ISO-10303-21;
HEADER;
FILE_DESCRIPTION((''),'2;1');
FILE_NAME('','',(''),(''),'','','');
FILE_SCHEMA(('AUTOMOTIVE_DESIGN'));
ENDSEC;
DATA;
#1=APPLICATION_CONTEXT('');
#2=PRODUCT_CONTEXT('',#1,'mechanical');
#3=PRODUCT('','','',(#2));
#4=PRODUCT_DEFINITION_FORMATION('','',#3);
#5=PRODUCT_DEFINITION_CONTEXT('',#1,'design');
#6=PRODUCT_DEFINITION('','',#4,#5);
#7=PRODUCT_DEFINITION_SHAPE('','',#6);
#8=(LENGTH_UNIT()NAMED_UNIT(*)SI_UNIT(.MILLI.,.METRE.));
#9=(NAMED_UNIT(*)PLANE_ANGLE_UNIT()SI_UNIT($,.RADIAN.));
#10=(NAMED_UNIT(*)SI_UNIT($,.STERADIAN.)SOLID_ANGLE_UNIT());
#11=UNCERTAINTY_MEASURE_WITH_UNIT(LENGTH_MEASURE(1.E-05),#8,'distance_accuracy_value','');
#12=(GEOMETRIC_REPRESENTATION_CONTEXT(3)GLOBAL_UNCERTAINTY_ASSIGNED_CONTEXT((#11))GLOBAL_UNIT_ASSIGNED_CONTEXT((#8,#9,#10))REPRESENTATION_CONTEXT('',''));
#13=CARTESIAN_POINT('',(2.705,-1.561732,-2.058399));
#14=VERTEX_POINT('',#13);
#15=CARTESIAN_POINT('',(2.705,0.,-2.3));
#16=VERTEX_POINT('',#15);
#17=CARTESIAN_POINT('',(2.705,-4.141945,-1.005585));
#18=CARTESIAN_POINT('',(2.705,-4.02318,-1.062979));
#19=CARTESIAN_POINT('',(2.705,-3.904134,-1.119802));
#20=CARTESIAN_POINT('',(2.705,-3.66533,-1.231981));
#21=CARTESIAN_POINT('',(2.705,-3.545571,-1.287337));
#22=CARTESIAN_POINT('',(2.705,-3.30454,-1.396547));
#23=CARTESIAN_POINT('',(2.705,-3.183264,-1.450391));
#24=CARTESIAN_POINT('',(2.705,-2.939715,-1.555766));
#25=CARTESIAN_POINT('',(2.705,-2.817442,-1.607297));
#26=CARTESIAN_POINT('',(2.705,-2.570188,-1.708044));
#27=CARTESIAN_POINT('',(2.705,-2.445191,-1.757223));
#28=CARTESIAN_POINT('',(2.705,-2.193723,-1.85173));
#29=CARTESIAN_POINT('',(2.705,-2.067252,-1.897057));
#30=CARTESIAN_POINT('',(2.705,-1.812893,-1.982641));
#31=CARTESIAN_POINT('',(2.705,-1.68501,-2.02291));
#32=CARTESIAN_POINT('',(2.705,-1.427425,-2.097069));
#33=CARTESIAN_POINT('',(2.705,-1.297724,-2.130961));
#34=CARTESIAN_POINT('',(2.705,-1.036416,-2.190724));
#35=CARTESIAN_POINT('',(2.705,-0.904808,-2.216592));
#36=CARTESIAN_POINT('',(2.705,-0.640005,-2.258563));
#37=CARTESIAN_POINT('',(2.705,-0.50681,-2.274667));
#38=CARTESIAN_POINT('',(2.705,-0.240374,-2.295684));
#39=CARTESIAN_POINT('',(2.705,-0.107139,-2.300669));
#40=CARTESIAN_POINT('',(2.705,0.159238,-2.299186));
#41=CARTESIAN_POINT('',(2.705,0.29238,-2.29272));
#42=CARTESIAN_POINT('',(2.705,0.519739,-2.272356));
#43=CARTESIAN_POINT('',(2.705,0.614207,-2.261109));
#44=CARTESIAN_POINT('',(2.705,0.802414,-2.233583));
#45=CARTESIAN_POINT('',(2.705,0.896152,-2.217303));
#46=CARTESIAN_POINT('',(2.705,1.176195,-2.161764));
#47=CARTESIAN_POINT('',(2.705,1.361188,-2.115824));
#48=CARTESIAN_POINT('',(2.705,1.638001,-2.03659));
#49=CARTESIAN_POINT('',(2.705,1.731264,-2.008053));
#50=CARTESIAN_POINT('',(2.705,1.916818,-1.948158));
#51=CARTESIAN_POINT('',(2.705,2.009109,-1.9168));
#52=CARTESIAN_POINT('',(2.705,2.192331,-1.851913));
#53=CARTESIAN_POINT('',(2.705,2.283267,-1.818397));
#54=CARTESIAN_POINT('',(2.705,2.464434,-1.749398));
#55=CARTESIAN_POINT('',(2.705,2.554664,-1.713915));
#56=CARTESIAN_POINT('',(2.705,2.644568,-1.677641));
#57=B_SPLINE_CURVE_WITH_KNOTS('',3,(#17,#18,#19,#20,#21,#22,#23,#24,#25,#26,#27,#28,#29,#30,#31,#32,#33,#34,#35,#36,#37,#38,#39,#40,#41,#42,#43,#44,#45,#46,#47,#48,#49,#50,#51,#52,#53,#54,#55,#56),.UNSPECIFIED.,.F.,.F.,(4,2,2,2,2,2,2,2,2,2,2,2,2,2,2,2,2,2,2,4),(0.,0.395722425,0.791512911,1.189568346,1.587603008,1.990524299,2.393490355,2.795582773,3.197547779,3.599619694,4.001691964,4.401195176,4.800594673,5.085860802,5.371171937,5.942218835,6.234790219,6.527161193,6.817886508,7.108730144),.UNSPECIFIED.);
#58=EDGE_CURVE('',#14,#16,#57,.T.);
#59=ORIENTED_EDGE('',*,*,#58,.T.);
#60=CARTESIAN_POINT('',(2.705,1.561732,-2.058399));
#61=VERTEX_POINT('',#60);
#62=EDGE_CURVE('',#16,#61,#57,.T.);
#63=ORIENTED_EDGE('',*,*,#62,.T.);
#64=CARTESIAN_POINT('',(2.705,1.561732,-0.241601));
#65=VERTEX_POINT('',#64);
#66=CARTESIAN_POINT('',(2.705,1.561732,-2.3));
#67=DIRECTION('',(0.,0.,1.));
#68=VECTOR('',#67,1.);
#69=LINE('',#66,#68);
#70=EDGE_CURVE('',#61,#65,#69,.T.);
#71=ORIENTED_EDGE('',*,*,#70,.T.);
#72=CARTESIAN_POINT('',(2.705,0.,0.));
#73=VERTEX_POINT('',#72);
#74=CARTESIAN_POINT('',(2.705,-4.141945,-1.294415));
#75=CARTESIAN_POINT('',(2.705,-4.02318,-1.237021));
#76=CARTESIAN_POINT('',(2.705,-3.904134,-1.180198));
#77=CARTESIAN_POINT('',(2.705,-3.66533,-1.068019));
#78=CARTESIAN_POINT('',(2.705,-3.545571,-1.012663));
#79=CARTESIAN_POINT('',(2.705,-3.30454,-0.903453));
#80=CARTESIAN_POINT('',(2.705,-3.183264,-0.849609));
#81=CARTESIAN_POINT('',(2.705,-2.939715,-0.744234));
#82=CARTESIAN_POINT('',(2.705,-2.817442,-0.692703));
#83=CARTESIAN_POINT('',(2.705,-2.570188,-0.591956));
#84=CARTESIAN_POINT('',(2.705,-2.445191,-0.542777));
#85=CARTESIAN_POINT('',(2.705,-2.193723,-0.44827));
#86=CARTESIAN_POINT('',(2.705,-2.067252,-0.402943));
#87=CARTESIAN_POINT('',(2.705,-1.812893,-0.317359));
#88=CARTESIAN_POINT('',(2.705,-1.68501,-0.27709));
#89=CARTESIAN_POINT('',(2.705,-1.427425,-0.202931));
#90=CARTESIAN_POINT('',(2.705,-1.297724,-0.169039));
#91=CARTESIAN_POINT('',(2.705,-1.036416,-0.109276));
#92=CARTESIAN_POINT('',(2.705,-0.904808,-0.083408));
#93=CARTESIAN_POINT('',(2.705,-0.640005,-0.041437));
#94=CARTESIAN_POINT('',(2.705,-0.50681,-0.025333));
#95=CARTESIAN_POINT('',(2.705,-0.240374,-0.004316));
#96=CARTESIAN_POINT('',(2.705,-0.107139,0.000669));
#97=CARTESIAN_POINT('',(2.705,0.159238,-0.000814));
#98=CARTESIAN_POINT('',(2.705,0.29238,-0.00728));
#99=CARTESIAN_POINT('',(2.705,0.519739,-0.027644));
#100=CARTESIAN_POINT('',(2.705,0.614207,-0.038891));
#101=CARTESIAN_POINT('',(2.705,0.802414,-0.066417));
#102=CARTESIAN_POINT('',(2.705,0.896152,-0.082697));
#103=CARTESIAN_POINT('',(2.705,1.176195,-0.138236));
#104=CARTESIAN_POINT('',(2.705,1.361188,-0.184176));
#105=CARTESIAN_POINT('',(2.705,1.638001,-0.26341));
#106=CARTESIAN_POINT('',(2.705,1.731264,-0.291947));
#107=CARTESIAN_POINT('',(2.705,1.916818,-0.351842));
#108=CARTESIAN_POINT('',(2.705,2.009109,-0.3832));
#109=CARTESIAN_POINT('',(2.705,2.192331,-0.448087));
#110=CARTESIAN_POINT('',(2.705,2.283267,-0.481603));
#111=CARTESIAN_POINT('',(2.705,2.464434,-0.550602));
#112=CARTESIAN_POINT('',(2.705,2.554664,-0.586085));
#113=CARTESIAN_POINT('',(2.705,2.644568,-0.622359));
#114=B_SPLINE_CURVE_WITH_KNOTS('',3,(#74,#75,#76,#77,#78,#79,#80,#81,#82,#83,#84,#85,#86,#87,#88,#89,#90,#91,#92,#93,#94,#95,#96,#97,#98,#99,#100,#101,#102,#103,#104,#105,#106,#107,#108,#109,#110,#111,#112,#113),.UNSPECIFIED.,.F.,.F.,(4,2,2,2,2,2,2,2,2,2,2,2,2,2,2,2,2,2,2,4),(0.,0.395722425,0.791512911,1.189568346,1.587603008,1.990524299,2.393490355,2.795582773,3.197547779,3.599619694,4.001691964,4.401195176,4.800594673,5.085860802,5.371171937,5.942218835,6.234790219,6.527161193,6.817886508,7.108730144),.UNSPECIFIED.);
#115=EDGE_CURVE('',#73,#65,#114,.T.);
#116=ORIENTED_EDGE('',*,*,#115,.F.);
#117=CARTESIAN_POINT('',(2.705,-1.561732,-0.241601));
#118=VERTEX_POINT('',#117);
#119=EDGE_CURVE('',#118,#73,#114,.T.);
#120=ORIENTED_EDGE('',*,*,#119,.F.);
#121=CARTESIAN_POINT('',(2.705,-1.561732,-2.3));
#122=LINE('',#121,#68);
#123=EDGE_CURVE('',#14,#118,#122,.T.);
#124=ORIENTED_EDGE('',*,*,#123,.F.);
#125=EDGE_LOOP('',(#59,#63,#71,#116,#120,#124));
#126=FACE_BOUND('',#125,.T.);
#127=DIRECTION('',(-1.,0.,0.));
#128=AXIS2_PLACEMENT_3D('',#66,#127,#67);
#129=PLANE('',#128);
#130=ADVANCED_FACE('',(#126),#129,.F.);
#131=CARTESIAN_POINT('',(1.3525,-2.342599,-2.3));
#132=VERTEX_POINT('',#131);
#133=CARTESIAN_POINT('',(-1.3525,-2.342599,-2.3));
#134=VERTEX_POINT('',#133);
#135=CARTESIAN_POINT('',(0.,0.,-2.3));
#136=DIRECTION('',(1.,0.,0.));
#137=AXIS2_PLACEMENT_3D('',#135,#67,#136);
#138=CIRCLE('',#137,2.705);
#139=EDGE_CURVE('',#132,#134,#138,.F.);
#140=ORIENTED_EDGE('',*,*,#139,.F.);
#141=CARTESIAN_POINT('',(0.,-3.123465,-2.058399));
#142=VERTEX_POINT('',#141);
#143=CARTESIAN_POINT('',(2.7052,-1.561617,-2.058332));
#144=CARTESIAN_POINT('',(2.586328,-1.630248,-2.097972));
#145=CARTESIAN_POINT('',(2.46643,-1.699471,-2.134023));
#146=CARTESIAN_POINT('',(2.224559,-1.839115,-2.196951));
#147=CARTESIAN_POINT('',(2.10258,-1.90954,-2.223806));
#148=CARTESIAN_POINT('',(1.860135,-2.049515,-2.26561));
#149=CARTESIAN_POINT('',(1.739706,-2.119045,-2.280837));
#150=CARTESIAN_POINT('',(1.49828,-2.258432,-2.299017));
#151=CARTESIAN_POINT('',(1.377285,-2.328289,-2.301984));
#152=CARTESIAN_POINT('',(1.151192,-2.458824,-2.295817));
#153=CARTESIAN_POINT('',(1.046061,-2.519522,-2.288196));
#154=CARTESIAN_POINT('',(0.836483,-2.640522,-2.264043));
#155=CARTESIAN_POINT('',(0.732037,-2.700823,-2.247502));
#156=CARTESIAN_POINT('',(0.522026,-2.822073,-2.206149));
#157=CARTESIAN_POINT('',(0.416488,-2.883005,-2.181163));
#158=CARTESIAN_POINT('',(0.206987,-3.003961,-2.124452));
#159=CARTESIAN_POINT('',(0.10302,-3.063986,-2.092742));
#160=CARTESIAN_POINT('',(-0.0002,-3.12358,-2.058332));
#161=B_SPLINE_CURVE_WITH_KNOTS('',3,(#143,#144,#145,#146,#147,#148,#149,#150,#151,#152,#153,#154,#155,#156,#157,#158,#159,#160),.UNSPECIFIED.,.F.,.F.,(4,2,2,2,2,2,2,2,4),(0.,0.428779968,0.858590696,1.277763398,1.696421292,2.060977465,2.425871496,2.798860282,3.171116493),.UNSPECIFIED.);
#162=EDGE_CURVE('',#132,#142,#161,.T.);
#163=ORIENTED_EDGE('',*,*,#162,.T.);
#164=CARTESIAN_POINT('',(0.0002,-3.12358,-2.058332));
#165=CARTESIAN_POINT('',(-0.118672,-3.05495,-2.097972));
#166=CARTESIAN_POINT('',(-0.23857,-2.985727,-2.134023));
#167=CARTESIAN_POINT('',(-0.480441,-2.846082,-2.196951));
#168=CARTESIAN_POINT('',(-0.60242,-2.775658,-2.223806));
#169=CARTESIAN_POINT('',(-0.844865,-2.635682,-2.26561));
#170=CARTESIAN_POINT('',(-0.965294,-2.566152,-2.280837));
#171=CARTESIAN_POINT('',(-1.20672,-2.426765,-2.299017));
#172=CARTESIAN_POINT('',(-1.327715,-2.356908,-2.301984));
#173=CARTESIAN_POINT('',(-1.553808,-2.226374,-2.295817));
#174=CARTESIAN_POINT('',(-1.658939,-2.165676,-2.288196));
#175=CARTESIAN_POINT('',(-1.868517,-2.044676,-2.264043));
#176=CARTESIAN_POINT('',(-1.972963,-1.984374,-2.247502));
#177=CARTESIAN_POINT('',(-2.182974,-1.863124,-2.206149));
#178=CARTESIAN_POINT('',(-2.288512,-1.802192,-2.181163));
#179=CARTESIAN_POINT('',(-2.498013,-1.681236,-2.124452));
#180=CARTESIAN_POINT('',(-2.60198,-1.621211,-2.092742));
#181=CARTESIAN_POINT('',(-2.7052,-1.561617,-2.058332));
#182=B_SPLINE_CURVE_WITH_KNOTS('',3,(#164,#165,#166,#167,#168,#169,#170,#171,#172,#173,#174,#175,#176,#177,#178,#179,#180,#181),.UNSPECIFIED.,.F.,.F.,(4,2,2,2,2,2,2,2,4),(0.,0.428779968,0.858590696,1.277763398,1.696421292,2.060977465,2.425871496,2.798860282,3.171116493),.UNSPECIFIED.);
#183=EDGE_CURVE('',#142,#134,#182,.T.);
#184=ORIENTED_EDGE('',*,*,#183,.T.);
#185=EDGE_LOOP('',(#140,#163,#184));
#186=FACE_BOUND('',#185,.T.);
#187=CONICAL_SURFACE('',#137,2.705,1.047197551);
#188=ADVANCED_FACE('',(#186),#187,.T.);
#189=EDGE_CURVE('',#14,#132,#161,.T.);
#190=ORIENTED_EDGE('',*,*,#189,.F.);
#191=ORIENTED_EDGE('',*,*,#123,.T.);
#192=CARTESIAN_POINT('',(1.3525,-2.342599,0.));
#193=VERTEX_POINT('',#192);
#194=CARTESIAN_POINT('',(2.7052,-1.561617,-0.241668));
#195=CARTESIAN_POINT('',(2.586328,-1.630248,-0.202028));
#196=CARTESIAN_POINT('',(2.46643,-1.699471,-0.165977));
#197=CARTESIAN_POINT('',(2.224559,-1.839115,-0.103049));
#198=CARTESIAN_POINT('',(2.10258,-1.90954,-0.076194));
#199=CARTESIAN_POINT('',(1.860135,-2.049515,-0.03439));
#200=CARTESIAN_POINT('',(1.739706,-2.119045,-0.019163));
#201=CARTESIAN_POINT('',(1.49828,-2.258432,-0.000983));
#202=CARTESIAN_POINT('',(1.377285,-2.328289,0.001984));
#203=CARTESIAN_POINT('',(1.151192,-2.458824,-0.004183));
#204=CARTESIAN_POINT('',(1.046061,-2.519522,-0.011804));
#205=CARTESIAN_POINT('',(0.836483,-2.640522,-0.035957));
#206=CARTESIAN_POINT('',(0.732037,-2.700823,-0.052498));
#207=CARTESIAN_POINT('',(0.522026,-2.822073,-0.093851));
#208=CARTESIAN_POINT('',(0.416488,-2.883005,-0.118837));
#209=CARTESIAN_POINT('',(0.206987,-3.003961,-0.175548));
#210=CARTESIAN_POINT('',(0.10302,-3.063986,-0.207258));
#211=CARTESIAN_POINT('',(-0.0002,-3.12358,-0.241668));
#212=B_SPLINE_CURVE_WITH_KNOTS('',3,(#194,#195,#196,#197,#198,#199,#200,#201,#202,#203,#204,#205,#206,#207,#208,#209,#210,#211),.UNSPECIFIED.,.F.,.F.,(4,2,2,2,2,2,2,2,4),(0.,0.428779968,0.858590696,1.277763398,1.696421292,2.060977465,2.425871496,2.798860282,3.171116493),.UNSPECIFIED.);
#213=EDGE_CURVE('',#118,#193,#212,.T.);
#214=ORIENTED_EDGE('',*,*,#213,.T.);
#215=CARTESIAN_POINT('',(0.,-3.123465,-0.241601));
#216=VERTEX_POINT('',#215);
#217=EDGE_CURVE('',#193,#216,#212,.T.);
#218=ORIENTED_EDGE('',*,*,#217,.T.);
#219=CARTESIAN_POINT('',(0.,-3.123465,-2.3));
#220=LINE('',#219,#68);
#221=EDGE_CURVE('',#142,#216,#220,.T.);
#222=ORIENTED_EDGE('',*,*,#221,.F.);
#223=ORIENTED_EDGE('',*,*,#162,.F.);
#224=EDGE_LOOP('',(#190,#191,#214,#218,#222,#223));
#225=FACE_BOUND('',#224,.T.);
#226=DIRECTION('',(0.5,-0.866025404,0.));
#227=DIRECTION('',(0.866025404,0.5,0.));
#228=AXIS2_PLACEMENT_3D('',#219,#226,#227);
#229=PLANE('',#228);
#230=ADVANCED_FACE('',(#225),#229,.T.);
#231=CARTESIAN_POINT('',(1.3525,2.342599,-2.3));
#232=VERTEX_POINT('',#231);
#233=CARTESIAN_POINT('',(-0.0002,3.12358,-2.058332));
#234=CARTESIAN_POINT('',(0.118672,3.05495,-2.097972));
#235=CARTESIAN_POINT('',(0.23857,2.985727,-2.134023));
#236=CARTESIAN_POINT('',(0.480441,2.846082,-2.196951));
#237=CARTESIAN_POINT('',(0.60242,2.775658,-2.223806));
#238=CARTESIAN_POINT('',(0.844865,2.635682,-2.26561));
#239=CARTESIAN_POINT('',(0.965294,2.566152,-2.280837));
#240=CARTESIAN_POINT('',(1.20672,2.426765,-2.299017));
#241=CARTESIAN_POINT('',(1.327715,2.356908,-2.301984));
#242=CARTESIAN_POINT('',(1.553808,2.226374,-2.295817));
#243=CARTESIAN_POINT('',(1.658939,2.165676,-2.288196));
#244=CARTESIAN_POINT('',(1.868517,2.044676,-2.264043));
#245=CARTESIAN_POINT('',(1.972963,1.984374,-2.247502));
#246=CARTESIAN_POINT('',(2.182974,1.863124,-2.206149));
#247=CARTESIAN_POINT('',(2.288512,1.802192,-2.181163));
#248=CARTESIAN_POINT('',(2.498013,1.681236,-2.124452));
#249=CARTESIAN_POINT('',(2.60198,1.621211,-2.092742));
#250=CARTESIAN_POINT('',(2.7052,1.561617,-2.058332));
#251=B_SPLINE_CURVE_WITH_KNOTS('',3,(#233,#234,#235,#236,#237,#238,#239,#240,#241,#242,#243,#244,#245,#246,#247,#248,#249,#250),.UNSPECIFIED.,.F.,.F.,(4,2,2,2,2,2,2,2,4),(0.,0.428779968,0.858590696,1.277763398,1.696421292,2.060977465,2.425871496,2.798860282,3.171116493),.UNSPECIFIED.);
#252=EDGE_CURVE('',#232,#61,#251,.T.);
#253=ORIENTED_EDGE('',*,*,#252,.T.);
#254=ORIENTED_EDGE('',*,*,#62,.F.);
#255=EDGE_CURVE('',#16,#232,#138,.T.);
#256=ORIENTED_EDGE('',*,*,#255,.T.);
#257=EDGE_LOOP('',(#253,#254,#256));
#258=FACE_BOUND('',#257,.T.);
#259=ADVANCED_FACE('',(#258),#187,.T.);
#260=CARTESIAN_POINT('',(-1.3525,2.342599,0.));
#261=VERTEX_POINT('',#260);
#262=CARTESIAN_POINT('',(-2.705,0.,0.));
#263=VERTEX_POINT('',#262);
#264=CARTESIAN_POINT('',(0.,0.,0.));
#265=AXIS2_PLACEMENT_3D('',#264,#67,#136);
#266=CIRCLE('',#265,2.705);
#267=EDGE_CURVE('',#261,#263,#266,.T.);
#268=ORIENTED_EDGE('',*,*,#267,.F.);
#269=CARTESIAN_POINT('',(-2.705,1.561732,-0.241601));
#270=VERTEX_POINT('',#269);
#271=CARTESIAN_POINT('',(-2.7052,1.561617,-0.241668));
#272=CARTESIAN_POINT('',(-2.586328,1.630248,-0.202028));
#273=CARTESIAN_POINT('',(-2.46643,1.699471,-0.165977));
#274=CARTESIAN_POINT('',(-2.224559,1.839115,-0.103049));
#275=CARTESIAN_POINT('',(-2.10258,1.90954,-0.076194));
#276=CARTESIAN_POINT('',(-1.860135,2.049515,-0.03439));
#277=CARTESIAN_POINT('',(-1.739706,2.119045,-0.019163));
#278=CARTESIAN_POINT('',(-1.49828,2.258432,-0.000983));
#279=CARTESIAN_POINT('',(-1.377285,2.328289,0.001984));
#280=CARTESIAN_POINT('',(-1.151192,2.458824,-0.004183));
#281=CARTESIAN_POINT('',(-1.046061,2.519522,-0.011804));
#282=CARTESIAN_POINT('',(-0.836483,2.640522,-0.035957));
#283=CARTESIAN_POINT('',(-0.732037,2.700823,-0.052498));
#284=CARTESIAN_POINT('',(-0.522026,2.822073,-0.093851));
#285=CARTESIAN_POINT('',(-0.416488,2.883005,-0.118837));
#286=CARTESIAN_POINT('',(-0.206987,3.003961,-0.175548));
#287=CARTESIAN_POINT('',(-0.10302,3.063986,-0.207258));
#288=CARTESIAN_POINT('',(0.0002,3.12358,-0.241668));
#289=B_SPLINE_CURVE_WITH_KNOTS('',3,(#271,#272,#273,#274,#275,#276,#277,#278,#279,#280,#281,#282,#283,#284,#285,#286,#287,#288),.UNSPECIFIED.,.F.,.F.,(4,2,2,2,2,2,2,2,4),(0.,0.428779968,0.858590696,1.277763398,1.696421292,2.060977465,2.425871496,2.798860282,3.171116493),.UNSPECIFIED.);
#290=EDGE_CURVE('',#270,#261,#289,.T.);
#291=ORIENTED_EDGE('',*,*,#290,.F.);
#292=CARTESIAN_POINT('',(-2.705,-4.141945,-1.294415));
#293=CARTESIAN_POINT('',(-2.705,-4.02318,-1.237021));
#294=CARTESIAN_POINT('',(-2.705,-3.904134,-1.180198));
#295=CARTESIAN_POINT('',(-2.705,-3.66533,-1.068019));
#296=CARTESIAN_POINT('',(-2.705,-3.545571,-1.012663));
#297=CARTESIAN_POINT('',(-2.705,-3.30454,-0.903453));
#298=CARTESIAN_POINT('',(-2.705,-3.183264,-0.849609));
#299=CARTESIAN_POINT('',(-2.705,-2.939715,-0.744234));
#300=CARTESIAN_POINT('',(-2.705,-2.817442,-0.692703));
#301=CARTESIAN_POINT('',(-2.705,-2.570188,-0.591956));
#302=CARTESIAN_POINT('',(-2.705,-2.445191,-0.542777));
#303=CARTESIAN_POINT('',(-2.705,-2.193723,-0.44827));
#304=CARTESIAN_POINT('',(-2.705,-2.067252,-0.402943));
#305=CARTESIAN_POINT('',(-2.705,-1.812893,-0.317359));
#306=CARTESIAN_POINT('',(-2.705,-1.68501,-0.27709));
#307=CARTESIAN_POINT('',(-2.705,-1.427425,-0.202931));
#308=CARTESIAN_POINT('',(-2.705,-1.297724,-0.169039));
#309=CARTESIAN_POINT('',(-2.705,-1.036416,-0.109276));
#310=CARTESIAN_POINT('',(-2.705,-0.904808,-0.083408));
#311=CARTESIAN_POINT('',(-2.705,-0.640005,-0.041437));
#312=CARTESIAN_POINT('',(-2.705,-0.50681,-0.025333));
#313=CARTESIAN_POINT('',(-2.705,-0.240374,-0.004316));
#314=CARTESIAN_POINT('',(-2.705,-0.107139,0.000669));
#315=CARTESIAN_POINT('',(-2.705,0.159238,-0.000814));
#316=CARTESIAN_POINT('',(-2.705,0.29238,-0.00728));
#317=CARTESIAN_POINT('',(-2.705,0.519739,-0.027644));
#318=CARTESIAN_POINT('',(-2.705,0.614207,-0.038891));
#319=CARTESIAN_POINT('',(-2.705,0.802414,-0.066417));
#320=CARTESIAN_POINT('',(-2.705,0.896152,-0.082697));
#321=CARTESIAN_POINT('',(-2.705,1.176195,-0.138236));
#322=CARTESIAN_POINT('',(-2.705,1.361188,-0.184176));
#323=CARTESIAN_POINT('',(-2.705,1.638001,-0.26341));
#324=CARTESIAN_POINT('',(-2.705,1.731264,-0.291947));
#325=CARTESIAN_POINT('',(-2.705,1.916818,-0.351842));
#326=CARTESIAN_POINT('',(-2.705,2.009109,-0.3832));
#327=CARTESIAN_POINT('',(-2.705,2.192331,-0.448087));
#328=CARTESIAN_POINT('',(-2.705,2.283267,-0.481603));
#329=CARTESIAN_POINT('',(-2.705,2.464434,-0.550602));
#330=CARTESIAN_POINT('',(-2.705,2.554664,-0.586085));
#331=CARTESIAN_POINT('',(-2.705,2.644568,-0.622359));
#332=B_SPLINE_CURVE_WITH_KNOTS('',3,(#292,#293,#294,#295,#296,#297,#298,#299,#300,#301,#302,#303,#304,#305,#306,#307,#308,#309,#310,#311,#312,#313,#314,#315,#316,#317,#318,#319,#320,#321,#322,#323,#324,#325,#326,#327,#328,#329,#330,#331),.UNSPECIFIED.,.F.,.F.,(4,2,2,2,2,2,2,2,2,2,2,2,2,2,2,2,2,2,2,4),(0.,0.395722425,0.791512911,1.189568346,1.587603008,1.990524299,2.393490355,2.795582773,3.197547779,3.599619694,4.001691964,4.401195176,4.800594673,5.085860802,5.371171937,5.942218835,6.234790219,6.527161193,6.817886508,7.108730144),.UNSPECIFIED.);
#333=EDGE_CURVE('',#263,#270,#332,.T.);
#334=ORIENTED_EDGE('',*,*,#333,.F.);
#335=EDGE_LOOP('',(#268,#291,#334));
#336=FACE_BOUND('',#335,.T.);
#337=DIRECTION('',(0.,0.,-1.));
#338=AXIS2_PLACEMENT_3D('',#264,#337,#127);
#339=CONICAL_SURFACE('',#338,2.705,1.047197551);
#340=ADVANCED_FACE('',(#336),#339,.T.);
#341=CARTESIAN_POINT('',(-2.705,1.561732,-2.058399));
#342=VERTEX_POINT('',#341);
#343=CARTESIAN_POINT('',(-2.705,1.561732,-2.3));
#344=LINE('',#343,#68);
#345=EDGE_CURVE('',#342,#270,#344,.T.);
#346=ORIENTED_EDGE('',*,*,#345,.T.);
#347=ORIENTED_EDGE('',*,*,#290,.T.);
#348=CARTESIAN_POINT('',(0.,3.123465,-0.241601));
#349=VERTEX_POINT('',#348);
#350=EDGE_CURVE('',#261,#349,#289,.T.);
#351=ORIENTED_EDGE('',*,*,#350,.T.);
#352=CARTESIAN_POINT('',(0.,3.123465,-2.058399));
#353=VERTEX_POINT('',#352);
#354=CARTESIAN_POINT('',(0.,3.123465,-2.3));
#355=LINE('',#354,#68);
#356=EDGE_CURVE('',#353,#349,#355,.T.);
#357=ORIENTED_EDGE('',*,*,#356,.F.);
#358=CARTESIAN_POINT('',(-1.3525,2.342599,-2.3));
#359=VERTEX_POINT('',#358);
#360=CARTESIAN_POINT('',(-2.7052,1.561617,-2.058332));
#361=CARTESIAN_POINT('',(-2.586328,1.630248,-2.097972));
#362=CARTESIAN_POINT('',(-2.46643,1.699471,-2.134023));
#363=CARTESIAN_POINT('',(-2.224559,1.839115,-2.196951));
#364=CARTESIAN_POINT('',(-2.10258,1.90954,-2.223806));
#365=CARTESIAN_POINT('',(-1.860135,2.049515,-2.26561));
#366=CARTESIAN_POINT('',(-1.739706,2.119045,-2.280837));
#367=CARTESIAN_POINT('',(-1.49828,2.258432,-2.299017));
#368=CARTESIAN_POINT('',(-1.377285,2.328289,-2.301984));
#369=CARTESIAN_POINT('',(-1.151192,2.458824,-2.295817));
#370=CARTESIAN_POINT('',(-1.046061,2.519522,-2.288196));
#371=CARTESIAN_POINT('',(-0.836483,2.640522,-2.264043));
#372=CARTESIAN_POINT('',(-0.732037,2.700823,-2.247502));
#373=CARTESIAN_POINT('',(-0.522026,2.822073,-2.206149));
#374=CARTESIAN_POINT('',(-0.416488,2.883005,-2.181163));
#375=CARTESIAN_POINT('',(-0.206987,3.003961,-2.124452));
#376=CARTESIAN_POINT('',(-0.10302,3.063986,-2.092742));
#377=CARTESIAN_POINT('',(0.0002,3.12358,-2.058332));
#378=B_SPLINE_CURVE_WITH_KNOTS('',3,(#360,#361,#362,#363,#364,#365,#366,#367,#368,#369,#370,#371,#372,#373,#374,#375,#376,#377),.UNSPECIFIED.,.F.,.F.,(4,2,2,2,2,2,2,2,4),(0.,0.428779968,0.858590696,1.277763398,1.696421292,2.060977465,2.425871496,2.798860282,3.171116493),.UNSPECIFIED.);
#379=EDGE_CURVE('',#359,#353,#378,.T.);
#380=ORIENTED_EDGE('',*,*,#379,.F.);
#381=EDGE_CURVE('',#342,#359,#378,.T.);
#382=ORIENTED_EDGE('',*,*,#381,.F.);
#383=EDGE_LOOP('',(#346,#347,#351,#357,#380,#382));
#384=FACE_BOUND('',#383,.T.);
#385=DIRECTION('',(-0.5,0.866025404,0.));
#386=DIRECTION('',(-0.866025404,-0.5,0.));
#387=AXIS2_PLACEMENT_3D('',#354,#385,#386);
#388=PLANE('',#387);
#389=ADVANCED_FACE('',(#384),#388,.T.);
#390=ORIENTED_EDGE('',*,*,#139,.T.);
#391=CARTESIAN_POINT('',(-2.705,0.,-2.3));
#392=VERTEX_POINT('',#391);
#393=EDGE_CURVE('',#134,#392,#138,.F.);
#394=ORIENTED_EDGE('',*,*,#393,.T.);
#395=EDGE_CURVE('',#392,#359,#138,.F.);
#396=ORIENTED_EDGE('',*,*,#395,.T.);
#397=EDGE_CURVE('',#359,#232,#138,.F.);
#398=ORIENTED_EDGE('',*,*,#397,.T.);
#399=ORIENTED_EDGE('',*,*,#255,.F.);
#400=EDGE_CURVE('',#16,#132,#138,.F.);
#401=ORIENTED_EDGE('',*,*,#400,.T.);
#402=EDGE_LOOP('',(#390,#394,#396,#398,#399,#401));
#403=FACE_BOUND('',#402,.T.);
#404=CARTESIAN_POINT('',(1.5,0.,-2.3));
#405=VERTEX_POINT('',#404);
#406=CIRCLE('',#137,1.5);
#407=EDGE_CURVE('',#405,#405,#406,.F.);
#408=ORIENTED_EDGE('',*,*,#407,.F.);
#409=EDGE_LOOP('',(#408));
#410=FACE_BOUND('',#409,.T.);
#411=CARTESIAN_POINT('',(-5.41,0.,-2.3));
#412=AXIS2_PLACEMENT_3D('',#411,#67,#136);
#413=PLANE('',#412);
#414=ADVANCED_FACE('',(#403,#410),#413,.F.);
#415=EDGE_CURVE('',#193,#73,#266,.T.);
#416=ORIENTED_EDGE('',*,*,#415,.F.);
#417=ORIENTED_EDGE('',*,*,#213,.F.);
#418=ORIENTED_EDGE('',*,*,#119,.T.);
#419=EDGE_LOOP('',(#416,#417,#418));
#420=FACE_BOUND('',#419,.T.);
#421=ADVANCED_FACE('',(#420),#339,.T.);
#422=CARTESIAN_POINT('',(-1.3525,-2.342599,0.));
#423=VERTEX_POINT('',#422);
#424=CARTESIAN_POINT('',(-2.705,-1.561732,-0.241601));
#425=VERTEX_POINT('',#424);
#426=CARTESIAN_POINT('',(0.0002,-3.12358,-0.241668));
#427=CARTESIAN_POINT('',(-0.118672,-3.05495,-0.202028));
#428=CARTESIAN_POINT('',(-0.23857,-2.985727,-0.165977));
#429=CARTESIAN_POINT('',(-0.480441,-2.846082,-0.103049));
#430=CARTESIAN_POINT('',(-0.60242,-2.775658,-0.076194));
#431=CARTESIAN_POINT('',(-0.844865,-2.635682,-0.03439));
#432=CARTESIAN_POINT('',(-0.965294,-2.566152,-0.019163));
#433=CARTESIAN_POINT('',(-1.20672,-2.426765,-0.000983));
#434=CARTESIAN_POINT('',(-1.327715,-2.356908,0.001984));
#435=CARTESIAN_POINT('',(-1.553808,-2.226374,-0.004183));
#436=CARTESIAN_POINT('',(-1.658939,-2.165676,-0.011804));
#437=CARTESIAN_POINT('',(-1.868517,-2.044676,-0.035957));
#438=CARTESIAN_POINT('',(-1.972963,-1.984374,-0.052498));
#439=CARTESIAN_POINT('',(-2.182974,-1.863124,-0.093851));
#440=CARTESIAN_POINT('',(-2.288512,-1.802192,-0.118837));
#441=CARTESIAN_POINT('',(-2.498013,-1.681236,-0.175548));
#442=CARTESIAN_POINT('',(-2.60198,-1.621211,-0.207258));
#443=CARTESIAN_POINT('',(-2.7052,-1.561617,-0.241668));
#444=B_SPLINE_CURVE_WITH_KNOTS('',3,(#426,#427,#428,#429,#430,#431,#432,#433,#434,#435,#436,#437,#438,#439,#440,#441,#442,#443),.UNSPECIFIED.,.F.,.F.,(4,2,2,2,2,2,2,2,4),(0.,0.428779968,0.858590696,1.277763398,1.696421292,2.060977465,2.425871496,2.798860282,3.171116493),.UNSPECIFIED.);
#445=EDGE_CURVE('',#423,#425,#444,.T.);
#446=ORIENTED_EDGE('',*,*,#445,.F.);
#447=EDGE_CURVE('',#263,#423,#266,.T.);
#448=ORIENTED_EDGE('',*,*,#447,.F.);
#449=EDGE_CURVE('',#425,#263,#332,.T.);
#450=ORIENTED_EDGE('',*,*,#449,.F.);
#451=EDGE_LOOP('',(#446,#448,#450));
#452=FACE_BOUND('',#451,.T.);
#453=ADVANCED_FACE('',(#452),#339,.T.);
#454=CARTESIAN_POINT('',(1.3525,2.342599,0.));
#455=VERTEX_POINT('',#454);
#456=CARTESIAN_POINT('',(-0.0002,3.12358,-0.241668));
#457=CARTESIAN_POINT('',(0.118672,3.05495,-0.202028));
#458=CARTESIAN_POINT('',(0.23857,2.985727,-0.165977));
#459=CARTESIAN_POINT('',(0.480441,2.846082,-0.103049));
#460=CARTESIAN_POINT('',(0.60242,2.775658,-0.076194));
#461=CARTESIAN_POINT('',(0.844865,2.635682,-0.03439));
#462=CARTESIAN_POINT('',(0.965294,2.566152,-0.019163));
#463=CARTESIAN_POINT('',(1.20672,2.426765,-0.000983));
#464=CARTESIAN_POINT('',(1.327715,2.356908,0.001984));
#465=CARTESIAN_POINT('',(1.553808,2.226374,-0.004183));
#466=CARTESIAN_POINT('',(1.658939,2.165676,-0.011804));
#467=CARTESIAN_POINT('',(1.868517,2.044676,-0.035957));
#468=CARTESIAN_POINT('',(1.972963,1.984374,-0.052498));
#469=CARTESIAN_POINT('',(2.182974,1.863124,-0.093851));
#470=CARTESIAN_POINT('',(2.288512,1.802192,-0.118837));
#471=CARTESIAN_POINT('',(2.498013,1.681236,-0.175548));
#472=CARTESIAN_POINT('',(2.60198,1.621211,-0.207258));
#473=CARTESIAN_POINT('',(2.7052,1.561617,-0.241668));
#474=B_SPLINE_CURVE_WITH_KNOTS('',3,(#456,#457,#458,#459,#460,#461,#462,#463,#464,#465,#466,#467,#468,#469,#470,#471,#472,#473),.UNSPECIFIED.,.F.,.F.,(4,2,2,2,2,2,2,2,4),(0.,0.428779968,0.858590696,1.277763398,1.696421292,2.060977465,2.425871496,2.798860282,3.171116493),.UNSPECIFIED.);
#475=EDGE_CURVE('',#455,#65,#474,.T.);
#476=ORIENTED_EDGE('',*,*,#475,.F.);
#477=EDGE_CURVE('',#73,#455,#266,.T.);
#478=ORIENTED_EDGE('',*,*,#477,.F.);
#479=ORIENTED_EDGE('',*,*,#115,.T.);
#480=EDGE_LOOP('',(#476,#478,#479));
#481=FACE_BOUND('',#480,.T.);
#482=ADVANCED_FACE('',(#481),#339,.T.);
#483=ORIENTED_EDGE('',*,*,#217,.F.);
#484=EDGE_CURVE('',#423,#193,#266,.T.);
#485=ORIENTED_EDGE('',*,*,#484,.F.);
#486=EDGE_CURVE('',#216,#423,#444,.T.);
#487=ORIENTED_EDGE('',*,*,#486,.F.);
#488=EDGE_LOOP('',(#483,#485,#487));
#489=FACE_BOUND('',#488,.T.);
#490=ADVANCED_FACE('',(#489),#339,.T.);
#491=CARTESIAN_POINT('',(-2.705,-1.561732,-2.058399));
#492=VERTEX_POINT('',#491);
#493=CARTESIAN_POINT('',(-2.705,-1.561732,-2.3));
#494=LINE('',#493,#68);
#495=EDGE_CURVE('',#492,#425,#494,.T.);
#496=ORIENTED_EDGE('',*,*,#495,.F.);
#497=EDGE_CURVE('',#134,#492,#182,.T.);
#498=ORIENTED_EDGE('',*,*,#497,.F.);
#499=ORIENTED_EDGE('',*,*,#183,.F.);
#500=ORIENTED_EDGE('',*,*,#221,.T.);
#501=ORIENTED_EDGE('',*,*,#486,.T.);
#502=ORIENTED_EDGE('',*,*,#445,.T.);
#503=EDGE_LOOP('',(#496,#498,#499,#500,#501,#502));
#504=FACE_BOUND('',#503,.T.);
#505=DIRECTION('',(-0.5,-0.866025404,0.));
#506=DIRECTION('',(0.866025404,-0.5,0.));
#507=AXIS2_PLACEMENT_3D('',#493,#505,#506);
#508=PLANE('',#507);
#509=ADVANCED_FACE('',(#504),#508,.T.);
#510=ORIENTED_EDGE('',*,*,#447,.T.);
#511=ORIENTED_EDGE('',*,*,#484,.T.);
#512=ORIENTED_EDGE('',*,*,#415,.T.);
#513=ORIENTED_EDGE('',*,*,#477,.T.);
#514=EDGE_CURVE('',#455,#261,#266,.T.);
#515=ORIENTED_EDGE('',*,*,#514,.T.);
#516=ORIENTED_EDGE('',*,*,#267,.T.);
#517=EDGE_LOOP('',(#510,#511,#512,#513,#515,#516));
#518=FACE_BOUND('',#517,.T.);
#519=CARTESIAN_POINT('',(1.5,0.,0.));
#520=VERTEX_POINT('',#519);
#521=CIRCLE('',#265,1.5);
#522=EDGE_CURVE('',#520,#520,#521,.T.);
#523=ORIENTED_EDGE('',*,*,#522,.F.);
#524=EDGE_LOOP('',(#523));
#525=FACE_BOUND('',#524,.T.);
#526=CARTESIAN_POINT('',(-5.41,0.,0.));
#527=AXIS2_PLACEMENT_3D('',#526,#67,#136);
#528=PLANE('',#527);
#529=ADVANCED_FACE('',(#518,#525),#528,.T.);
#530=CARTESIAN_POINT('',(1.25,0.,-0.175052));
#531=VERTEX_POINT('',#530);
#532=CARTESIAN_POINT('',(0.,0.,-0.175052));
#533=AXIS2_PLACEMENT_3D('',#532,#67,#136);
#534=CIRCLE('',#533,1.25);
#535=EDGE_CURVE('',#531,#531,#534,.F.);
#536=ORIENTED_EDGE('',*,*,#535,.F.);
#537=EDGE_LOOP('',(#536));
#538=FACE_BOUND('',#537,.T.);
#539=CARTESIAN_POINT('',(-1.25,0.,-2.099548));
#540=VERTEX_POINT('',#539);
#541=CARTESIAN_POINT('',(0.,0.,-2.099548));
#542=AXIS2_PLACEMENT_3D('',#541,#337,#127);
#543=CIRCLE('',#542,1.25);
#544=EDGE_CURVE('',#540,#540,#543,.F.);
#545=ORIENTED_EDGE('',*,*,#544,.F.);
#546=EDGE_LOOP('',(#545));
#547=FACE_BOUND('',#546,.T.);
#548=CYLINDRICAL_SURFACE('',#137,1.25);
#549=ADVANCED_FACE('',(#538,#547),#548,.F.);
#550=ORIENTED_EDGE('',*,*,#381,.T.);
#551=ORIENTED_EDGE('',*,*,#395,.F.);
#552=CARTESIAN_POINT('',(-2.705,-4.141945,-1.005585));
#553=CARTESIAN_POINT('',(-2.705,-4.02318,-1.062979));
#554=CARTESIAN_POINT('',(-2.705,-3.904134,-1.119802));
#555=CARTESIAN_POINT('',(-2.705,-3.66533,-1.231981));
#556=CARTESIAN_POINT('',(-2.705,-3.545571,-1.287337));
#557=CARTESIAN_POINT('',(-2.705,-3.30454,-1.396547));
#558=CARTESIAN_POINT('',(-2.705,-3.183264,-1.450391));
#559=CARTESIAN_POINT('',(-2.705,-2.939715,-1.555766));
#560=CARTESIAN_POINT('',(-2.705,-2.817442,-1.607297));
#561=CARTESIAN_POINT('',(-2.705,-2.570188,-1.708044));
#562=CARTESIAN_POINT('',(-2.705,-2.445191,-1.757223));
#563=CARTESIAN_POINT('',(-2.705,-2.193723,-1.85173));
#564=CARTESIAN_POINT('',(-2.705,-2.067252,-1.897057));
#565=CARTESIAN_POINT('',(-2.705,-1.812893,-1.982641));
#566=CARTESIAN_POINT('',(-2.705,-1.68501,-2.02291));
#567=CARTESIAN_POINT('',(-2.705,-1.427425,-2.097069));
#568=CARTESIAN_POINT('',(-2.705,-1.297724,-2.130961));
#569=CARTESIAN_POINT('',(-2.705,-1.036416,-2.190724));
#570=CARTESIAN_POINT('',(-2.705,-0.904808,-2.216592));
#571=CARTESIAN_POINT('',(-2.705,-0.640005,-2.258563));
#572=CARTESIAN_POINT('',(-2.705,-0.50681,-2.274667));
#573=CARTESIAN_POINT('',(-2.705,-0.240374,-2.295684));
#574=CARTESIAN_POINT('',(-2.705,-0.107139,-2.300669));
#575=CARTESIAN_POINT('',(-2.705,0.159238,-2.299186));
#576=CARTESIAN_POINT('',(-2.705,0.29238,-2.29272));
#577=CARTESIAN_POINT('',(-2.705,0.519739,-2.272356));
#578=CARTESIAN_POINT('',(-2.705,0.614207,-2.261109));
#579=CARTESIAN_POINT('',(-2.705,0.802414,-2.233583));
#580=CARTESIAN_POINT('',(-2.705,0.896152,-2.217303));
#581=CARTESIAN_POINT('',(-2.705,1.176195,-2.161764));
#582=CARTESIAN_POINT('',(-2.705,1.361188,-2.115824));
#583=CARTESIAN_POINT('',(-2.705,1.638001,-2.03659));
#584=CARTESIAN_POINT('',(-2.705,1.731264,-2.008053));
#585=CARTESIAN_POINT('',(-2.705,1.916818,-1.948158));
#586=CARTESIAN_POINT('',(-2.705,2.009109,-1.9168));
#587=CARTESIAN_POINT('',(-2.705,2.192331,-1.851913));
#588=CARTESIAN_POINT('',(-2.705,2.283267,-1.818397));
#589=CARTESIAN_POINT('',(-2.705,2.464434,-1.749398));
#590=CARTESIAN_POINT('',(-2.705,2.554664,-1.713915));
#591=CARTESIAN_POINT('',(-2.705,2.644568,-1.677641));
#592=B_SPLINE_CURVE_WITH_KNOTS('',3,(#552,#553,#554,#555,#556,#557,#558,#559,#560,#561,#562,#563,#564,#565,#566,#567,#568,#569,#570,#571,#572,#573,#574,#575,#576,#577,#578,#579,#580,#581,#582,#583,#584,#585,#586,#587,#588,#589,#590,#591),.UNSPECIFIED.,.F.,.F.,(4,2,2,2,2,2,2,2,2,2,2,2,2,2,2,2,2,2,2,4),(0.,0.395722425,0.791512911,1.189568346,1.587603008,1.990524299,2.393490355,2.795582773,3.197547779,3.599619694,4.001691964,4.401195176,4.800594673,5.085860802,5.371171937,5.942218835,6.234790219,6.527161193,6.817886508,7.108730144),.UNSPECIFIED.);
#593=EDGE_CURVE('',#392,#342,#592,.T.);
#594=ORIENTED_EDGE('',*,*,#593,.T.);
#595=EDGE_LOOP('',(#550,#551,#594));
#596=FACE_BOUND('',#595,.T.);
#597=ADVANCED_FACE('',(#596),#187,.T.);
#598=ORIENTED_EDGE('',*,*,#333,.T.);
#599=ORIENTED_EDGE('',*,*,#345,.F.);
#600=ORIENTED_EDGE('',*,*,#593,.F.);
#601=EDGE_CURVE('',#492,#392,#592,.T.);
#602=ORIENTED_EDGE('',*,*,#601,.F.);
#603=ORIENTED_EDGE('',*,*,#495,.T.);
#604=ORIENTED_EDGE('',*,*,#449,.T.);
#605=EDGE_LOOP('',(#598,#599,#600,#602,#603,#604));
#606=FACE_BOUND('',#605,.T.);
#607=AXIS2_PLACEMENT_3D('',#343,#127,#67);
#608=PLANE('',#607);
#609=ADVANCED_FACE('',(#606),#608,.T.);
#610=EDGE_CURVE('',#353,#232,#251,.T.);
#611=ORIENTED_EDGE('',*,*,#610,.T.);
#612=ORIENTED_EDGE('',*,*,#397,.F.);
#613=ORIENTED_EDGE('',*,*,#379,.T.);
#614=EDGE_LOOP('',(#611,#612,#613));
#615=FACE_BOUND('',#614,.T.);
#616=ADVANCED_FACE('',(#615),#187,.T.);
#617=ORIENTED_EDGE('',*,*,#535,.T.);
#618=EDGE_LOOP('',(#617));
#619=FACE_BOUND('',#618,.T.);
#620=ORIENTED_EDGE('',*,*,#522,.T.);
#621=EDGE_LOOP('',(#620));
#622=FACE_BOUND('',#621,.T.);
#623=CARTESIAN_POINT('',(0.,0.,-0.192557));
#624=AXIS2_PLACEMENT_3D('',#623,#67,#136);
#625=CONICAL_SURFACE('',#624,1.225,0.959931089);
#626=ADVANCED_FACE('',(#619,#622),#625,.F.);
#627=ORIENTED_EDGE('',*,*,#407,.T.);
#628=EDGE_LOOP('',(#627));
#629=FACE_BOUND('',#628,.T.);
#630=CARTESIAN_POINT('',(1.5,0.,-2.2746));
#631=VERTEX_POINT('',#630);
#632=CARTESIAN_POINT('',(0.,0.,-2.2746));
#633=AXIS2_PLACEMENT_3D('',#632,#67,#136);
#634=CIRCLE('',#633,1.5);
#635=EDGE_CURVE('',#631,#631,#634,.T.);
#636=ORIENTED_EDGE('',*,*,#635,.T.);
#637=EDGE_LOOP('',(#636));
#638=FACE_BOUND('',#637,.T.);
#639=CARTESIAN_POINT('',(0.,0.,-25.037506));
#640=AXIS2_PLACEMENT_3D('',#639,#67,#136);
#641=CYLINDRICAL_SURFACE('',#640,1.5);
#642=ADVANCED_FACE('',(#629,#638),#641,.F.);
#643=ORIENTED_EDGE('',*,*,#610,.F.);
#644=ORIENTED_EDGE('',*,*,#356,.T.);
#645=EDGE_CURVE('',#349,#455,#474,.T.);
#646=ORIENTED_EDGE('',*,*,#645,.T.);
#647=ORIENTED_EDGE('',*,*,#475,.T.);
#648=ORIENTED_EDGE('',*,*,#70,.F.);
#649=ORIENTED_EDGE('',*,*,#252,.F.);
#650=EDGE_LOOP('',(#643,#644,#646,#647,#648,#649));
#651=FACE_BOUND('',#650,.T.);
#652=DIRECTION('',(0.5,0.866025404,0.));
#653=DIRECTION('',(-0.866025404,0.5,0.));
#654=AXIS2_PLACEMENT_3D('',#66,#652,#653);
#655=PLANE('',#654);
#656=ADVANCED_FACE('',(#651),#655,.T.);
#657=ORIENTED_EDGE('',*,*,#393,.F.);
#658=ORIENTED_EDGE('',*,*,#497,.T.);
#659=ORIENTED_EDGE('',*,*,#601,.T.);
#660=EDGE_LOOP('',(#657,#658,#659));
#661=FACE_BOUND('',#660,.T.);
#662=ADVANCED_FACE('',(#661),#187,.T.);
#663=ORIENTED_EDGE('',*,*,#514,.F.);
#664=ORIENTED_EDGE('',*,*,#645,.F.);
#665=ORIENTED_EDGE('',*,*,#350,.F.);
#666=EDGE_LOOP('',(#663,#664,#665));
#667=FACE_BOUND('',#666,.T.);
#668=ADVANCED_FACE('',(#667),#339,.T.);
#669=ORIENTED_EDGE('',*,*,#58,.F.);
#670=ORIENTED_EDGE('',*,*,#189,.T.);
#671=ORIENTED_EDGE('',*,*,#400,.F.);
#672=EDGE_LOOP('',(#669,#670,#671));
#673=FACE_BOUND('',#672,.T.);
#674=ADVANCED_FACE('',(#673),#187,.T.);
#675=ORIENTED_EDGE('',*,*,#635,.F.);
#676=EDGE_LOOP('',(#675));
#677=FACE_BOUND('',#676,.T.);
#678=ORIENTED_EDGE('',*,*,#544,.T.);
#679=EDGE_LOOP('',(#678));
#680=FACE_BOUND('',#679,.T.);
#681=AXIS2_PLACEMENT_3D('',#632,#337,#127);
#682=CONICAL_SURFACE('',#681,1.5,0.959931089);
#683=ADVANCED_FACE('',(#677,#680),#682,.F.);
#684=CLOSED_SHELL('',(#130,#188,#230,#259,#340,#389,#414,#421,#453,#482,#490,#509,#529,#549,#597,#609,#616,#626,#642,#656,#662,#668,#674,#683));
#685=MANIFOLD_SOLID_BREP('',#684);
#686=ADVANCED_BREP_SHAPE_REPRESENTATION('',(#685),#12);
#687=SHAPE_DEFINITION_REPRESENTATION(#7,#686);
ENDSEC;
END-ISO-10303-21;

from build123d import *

# Parameters (mm, degrees)
BASENUTSKE_R  = 1.25
BASENUT_DEPTH = 2.3


with BuildPart() as part:
    # BaseNutSke → BaseNut (new body)
    with BuildSketch(Plane.XY):
        Polygon((2.705, 1.561732478), (2.705, -1.561732478), (0, -3.123464956), (-2.705, -1.561732478), (-2.705, 1.561732478), (0, 3.123464956), align=None)
        Circle(BASENUTSKE_R, mode=Mode.SUBTRACT)
    extrude(amount=-BASENUT_DEPTH)

    # Sketch3 → Double-Chamfer (revolve, cut)
    with BuildSketch(Plane(origin=(0, 0, 0), x_dir=(0, 0, -1), z_dir=(1, 0, 0))):
        Polygon((2.3, 2.705), (2.058399145, 3.123464956), (2.058399145, 13.123464956), (12.3, 13.123464956), (12.3, 2.705), align=None)
        Polygon((0.241600855, 13.123464956), (-10, 13.123464956), (-10, 2.705), (0, 2.705), (0.241600855, 3.123464956), align=None)
    revolve(axis=Axis((0, 0, 0), (0, 0, -1)), mode=Mode.SUBTRACT)

    # Sketch5 (on Right Plane) → EndChamfer (revolve, cut)
    with BuildSketch(Plane(origin=(0, 0, 0), x_dir=(0, 0, -1), z_dir=(1, 0, 0)), mode=Mode.PRIVATE) as endchamfer_sk:
        Polygon((2.2746, 1.5), (2.082042927, 1.225), (2.3254, 1.225), (2.3254, 1.5), align=None)
        Polygon((-0.0508, 1.5), (0, 1.5), (0.192557073, 1.225), (-0.0508, 1.225), align=None)
    revolve(endchamfer_sk.sketch.rotate(Axis((0, 0, -25.037505729), (0, 0, -1)), 90), axis=Axis((0, 0, -25.037505729), (0, 0, -1)), mode=Mode.SUBTRACT)


solid = part.part
